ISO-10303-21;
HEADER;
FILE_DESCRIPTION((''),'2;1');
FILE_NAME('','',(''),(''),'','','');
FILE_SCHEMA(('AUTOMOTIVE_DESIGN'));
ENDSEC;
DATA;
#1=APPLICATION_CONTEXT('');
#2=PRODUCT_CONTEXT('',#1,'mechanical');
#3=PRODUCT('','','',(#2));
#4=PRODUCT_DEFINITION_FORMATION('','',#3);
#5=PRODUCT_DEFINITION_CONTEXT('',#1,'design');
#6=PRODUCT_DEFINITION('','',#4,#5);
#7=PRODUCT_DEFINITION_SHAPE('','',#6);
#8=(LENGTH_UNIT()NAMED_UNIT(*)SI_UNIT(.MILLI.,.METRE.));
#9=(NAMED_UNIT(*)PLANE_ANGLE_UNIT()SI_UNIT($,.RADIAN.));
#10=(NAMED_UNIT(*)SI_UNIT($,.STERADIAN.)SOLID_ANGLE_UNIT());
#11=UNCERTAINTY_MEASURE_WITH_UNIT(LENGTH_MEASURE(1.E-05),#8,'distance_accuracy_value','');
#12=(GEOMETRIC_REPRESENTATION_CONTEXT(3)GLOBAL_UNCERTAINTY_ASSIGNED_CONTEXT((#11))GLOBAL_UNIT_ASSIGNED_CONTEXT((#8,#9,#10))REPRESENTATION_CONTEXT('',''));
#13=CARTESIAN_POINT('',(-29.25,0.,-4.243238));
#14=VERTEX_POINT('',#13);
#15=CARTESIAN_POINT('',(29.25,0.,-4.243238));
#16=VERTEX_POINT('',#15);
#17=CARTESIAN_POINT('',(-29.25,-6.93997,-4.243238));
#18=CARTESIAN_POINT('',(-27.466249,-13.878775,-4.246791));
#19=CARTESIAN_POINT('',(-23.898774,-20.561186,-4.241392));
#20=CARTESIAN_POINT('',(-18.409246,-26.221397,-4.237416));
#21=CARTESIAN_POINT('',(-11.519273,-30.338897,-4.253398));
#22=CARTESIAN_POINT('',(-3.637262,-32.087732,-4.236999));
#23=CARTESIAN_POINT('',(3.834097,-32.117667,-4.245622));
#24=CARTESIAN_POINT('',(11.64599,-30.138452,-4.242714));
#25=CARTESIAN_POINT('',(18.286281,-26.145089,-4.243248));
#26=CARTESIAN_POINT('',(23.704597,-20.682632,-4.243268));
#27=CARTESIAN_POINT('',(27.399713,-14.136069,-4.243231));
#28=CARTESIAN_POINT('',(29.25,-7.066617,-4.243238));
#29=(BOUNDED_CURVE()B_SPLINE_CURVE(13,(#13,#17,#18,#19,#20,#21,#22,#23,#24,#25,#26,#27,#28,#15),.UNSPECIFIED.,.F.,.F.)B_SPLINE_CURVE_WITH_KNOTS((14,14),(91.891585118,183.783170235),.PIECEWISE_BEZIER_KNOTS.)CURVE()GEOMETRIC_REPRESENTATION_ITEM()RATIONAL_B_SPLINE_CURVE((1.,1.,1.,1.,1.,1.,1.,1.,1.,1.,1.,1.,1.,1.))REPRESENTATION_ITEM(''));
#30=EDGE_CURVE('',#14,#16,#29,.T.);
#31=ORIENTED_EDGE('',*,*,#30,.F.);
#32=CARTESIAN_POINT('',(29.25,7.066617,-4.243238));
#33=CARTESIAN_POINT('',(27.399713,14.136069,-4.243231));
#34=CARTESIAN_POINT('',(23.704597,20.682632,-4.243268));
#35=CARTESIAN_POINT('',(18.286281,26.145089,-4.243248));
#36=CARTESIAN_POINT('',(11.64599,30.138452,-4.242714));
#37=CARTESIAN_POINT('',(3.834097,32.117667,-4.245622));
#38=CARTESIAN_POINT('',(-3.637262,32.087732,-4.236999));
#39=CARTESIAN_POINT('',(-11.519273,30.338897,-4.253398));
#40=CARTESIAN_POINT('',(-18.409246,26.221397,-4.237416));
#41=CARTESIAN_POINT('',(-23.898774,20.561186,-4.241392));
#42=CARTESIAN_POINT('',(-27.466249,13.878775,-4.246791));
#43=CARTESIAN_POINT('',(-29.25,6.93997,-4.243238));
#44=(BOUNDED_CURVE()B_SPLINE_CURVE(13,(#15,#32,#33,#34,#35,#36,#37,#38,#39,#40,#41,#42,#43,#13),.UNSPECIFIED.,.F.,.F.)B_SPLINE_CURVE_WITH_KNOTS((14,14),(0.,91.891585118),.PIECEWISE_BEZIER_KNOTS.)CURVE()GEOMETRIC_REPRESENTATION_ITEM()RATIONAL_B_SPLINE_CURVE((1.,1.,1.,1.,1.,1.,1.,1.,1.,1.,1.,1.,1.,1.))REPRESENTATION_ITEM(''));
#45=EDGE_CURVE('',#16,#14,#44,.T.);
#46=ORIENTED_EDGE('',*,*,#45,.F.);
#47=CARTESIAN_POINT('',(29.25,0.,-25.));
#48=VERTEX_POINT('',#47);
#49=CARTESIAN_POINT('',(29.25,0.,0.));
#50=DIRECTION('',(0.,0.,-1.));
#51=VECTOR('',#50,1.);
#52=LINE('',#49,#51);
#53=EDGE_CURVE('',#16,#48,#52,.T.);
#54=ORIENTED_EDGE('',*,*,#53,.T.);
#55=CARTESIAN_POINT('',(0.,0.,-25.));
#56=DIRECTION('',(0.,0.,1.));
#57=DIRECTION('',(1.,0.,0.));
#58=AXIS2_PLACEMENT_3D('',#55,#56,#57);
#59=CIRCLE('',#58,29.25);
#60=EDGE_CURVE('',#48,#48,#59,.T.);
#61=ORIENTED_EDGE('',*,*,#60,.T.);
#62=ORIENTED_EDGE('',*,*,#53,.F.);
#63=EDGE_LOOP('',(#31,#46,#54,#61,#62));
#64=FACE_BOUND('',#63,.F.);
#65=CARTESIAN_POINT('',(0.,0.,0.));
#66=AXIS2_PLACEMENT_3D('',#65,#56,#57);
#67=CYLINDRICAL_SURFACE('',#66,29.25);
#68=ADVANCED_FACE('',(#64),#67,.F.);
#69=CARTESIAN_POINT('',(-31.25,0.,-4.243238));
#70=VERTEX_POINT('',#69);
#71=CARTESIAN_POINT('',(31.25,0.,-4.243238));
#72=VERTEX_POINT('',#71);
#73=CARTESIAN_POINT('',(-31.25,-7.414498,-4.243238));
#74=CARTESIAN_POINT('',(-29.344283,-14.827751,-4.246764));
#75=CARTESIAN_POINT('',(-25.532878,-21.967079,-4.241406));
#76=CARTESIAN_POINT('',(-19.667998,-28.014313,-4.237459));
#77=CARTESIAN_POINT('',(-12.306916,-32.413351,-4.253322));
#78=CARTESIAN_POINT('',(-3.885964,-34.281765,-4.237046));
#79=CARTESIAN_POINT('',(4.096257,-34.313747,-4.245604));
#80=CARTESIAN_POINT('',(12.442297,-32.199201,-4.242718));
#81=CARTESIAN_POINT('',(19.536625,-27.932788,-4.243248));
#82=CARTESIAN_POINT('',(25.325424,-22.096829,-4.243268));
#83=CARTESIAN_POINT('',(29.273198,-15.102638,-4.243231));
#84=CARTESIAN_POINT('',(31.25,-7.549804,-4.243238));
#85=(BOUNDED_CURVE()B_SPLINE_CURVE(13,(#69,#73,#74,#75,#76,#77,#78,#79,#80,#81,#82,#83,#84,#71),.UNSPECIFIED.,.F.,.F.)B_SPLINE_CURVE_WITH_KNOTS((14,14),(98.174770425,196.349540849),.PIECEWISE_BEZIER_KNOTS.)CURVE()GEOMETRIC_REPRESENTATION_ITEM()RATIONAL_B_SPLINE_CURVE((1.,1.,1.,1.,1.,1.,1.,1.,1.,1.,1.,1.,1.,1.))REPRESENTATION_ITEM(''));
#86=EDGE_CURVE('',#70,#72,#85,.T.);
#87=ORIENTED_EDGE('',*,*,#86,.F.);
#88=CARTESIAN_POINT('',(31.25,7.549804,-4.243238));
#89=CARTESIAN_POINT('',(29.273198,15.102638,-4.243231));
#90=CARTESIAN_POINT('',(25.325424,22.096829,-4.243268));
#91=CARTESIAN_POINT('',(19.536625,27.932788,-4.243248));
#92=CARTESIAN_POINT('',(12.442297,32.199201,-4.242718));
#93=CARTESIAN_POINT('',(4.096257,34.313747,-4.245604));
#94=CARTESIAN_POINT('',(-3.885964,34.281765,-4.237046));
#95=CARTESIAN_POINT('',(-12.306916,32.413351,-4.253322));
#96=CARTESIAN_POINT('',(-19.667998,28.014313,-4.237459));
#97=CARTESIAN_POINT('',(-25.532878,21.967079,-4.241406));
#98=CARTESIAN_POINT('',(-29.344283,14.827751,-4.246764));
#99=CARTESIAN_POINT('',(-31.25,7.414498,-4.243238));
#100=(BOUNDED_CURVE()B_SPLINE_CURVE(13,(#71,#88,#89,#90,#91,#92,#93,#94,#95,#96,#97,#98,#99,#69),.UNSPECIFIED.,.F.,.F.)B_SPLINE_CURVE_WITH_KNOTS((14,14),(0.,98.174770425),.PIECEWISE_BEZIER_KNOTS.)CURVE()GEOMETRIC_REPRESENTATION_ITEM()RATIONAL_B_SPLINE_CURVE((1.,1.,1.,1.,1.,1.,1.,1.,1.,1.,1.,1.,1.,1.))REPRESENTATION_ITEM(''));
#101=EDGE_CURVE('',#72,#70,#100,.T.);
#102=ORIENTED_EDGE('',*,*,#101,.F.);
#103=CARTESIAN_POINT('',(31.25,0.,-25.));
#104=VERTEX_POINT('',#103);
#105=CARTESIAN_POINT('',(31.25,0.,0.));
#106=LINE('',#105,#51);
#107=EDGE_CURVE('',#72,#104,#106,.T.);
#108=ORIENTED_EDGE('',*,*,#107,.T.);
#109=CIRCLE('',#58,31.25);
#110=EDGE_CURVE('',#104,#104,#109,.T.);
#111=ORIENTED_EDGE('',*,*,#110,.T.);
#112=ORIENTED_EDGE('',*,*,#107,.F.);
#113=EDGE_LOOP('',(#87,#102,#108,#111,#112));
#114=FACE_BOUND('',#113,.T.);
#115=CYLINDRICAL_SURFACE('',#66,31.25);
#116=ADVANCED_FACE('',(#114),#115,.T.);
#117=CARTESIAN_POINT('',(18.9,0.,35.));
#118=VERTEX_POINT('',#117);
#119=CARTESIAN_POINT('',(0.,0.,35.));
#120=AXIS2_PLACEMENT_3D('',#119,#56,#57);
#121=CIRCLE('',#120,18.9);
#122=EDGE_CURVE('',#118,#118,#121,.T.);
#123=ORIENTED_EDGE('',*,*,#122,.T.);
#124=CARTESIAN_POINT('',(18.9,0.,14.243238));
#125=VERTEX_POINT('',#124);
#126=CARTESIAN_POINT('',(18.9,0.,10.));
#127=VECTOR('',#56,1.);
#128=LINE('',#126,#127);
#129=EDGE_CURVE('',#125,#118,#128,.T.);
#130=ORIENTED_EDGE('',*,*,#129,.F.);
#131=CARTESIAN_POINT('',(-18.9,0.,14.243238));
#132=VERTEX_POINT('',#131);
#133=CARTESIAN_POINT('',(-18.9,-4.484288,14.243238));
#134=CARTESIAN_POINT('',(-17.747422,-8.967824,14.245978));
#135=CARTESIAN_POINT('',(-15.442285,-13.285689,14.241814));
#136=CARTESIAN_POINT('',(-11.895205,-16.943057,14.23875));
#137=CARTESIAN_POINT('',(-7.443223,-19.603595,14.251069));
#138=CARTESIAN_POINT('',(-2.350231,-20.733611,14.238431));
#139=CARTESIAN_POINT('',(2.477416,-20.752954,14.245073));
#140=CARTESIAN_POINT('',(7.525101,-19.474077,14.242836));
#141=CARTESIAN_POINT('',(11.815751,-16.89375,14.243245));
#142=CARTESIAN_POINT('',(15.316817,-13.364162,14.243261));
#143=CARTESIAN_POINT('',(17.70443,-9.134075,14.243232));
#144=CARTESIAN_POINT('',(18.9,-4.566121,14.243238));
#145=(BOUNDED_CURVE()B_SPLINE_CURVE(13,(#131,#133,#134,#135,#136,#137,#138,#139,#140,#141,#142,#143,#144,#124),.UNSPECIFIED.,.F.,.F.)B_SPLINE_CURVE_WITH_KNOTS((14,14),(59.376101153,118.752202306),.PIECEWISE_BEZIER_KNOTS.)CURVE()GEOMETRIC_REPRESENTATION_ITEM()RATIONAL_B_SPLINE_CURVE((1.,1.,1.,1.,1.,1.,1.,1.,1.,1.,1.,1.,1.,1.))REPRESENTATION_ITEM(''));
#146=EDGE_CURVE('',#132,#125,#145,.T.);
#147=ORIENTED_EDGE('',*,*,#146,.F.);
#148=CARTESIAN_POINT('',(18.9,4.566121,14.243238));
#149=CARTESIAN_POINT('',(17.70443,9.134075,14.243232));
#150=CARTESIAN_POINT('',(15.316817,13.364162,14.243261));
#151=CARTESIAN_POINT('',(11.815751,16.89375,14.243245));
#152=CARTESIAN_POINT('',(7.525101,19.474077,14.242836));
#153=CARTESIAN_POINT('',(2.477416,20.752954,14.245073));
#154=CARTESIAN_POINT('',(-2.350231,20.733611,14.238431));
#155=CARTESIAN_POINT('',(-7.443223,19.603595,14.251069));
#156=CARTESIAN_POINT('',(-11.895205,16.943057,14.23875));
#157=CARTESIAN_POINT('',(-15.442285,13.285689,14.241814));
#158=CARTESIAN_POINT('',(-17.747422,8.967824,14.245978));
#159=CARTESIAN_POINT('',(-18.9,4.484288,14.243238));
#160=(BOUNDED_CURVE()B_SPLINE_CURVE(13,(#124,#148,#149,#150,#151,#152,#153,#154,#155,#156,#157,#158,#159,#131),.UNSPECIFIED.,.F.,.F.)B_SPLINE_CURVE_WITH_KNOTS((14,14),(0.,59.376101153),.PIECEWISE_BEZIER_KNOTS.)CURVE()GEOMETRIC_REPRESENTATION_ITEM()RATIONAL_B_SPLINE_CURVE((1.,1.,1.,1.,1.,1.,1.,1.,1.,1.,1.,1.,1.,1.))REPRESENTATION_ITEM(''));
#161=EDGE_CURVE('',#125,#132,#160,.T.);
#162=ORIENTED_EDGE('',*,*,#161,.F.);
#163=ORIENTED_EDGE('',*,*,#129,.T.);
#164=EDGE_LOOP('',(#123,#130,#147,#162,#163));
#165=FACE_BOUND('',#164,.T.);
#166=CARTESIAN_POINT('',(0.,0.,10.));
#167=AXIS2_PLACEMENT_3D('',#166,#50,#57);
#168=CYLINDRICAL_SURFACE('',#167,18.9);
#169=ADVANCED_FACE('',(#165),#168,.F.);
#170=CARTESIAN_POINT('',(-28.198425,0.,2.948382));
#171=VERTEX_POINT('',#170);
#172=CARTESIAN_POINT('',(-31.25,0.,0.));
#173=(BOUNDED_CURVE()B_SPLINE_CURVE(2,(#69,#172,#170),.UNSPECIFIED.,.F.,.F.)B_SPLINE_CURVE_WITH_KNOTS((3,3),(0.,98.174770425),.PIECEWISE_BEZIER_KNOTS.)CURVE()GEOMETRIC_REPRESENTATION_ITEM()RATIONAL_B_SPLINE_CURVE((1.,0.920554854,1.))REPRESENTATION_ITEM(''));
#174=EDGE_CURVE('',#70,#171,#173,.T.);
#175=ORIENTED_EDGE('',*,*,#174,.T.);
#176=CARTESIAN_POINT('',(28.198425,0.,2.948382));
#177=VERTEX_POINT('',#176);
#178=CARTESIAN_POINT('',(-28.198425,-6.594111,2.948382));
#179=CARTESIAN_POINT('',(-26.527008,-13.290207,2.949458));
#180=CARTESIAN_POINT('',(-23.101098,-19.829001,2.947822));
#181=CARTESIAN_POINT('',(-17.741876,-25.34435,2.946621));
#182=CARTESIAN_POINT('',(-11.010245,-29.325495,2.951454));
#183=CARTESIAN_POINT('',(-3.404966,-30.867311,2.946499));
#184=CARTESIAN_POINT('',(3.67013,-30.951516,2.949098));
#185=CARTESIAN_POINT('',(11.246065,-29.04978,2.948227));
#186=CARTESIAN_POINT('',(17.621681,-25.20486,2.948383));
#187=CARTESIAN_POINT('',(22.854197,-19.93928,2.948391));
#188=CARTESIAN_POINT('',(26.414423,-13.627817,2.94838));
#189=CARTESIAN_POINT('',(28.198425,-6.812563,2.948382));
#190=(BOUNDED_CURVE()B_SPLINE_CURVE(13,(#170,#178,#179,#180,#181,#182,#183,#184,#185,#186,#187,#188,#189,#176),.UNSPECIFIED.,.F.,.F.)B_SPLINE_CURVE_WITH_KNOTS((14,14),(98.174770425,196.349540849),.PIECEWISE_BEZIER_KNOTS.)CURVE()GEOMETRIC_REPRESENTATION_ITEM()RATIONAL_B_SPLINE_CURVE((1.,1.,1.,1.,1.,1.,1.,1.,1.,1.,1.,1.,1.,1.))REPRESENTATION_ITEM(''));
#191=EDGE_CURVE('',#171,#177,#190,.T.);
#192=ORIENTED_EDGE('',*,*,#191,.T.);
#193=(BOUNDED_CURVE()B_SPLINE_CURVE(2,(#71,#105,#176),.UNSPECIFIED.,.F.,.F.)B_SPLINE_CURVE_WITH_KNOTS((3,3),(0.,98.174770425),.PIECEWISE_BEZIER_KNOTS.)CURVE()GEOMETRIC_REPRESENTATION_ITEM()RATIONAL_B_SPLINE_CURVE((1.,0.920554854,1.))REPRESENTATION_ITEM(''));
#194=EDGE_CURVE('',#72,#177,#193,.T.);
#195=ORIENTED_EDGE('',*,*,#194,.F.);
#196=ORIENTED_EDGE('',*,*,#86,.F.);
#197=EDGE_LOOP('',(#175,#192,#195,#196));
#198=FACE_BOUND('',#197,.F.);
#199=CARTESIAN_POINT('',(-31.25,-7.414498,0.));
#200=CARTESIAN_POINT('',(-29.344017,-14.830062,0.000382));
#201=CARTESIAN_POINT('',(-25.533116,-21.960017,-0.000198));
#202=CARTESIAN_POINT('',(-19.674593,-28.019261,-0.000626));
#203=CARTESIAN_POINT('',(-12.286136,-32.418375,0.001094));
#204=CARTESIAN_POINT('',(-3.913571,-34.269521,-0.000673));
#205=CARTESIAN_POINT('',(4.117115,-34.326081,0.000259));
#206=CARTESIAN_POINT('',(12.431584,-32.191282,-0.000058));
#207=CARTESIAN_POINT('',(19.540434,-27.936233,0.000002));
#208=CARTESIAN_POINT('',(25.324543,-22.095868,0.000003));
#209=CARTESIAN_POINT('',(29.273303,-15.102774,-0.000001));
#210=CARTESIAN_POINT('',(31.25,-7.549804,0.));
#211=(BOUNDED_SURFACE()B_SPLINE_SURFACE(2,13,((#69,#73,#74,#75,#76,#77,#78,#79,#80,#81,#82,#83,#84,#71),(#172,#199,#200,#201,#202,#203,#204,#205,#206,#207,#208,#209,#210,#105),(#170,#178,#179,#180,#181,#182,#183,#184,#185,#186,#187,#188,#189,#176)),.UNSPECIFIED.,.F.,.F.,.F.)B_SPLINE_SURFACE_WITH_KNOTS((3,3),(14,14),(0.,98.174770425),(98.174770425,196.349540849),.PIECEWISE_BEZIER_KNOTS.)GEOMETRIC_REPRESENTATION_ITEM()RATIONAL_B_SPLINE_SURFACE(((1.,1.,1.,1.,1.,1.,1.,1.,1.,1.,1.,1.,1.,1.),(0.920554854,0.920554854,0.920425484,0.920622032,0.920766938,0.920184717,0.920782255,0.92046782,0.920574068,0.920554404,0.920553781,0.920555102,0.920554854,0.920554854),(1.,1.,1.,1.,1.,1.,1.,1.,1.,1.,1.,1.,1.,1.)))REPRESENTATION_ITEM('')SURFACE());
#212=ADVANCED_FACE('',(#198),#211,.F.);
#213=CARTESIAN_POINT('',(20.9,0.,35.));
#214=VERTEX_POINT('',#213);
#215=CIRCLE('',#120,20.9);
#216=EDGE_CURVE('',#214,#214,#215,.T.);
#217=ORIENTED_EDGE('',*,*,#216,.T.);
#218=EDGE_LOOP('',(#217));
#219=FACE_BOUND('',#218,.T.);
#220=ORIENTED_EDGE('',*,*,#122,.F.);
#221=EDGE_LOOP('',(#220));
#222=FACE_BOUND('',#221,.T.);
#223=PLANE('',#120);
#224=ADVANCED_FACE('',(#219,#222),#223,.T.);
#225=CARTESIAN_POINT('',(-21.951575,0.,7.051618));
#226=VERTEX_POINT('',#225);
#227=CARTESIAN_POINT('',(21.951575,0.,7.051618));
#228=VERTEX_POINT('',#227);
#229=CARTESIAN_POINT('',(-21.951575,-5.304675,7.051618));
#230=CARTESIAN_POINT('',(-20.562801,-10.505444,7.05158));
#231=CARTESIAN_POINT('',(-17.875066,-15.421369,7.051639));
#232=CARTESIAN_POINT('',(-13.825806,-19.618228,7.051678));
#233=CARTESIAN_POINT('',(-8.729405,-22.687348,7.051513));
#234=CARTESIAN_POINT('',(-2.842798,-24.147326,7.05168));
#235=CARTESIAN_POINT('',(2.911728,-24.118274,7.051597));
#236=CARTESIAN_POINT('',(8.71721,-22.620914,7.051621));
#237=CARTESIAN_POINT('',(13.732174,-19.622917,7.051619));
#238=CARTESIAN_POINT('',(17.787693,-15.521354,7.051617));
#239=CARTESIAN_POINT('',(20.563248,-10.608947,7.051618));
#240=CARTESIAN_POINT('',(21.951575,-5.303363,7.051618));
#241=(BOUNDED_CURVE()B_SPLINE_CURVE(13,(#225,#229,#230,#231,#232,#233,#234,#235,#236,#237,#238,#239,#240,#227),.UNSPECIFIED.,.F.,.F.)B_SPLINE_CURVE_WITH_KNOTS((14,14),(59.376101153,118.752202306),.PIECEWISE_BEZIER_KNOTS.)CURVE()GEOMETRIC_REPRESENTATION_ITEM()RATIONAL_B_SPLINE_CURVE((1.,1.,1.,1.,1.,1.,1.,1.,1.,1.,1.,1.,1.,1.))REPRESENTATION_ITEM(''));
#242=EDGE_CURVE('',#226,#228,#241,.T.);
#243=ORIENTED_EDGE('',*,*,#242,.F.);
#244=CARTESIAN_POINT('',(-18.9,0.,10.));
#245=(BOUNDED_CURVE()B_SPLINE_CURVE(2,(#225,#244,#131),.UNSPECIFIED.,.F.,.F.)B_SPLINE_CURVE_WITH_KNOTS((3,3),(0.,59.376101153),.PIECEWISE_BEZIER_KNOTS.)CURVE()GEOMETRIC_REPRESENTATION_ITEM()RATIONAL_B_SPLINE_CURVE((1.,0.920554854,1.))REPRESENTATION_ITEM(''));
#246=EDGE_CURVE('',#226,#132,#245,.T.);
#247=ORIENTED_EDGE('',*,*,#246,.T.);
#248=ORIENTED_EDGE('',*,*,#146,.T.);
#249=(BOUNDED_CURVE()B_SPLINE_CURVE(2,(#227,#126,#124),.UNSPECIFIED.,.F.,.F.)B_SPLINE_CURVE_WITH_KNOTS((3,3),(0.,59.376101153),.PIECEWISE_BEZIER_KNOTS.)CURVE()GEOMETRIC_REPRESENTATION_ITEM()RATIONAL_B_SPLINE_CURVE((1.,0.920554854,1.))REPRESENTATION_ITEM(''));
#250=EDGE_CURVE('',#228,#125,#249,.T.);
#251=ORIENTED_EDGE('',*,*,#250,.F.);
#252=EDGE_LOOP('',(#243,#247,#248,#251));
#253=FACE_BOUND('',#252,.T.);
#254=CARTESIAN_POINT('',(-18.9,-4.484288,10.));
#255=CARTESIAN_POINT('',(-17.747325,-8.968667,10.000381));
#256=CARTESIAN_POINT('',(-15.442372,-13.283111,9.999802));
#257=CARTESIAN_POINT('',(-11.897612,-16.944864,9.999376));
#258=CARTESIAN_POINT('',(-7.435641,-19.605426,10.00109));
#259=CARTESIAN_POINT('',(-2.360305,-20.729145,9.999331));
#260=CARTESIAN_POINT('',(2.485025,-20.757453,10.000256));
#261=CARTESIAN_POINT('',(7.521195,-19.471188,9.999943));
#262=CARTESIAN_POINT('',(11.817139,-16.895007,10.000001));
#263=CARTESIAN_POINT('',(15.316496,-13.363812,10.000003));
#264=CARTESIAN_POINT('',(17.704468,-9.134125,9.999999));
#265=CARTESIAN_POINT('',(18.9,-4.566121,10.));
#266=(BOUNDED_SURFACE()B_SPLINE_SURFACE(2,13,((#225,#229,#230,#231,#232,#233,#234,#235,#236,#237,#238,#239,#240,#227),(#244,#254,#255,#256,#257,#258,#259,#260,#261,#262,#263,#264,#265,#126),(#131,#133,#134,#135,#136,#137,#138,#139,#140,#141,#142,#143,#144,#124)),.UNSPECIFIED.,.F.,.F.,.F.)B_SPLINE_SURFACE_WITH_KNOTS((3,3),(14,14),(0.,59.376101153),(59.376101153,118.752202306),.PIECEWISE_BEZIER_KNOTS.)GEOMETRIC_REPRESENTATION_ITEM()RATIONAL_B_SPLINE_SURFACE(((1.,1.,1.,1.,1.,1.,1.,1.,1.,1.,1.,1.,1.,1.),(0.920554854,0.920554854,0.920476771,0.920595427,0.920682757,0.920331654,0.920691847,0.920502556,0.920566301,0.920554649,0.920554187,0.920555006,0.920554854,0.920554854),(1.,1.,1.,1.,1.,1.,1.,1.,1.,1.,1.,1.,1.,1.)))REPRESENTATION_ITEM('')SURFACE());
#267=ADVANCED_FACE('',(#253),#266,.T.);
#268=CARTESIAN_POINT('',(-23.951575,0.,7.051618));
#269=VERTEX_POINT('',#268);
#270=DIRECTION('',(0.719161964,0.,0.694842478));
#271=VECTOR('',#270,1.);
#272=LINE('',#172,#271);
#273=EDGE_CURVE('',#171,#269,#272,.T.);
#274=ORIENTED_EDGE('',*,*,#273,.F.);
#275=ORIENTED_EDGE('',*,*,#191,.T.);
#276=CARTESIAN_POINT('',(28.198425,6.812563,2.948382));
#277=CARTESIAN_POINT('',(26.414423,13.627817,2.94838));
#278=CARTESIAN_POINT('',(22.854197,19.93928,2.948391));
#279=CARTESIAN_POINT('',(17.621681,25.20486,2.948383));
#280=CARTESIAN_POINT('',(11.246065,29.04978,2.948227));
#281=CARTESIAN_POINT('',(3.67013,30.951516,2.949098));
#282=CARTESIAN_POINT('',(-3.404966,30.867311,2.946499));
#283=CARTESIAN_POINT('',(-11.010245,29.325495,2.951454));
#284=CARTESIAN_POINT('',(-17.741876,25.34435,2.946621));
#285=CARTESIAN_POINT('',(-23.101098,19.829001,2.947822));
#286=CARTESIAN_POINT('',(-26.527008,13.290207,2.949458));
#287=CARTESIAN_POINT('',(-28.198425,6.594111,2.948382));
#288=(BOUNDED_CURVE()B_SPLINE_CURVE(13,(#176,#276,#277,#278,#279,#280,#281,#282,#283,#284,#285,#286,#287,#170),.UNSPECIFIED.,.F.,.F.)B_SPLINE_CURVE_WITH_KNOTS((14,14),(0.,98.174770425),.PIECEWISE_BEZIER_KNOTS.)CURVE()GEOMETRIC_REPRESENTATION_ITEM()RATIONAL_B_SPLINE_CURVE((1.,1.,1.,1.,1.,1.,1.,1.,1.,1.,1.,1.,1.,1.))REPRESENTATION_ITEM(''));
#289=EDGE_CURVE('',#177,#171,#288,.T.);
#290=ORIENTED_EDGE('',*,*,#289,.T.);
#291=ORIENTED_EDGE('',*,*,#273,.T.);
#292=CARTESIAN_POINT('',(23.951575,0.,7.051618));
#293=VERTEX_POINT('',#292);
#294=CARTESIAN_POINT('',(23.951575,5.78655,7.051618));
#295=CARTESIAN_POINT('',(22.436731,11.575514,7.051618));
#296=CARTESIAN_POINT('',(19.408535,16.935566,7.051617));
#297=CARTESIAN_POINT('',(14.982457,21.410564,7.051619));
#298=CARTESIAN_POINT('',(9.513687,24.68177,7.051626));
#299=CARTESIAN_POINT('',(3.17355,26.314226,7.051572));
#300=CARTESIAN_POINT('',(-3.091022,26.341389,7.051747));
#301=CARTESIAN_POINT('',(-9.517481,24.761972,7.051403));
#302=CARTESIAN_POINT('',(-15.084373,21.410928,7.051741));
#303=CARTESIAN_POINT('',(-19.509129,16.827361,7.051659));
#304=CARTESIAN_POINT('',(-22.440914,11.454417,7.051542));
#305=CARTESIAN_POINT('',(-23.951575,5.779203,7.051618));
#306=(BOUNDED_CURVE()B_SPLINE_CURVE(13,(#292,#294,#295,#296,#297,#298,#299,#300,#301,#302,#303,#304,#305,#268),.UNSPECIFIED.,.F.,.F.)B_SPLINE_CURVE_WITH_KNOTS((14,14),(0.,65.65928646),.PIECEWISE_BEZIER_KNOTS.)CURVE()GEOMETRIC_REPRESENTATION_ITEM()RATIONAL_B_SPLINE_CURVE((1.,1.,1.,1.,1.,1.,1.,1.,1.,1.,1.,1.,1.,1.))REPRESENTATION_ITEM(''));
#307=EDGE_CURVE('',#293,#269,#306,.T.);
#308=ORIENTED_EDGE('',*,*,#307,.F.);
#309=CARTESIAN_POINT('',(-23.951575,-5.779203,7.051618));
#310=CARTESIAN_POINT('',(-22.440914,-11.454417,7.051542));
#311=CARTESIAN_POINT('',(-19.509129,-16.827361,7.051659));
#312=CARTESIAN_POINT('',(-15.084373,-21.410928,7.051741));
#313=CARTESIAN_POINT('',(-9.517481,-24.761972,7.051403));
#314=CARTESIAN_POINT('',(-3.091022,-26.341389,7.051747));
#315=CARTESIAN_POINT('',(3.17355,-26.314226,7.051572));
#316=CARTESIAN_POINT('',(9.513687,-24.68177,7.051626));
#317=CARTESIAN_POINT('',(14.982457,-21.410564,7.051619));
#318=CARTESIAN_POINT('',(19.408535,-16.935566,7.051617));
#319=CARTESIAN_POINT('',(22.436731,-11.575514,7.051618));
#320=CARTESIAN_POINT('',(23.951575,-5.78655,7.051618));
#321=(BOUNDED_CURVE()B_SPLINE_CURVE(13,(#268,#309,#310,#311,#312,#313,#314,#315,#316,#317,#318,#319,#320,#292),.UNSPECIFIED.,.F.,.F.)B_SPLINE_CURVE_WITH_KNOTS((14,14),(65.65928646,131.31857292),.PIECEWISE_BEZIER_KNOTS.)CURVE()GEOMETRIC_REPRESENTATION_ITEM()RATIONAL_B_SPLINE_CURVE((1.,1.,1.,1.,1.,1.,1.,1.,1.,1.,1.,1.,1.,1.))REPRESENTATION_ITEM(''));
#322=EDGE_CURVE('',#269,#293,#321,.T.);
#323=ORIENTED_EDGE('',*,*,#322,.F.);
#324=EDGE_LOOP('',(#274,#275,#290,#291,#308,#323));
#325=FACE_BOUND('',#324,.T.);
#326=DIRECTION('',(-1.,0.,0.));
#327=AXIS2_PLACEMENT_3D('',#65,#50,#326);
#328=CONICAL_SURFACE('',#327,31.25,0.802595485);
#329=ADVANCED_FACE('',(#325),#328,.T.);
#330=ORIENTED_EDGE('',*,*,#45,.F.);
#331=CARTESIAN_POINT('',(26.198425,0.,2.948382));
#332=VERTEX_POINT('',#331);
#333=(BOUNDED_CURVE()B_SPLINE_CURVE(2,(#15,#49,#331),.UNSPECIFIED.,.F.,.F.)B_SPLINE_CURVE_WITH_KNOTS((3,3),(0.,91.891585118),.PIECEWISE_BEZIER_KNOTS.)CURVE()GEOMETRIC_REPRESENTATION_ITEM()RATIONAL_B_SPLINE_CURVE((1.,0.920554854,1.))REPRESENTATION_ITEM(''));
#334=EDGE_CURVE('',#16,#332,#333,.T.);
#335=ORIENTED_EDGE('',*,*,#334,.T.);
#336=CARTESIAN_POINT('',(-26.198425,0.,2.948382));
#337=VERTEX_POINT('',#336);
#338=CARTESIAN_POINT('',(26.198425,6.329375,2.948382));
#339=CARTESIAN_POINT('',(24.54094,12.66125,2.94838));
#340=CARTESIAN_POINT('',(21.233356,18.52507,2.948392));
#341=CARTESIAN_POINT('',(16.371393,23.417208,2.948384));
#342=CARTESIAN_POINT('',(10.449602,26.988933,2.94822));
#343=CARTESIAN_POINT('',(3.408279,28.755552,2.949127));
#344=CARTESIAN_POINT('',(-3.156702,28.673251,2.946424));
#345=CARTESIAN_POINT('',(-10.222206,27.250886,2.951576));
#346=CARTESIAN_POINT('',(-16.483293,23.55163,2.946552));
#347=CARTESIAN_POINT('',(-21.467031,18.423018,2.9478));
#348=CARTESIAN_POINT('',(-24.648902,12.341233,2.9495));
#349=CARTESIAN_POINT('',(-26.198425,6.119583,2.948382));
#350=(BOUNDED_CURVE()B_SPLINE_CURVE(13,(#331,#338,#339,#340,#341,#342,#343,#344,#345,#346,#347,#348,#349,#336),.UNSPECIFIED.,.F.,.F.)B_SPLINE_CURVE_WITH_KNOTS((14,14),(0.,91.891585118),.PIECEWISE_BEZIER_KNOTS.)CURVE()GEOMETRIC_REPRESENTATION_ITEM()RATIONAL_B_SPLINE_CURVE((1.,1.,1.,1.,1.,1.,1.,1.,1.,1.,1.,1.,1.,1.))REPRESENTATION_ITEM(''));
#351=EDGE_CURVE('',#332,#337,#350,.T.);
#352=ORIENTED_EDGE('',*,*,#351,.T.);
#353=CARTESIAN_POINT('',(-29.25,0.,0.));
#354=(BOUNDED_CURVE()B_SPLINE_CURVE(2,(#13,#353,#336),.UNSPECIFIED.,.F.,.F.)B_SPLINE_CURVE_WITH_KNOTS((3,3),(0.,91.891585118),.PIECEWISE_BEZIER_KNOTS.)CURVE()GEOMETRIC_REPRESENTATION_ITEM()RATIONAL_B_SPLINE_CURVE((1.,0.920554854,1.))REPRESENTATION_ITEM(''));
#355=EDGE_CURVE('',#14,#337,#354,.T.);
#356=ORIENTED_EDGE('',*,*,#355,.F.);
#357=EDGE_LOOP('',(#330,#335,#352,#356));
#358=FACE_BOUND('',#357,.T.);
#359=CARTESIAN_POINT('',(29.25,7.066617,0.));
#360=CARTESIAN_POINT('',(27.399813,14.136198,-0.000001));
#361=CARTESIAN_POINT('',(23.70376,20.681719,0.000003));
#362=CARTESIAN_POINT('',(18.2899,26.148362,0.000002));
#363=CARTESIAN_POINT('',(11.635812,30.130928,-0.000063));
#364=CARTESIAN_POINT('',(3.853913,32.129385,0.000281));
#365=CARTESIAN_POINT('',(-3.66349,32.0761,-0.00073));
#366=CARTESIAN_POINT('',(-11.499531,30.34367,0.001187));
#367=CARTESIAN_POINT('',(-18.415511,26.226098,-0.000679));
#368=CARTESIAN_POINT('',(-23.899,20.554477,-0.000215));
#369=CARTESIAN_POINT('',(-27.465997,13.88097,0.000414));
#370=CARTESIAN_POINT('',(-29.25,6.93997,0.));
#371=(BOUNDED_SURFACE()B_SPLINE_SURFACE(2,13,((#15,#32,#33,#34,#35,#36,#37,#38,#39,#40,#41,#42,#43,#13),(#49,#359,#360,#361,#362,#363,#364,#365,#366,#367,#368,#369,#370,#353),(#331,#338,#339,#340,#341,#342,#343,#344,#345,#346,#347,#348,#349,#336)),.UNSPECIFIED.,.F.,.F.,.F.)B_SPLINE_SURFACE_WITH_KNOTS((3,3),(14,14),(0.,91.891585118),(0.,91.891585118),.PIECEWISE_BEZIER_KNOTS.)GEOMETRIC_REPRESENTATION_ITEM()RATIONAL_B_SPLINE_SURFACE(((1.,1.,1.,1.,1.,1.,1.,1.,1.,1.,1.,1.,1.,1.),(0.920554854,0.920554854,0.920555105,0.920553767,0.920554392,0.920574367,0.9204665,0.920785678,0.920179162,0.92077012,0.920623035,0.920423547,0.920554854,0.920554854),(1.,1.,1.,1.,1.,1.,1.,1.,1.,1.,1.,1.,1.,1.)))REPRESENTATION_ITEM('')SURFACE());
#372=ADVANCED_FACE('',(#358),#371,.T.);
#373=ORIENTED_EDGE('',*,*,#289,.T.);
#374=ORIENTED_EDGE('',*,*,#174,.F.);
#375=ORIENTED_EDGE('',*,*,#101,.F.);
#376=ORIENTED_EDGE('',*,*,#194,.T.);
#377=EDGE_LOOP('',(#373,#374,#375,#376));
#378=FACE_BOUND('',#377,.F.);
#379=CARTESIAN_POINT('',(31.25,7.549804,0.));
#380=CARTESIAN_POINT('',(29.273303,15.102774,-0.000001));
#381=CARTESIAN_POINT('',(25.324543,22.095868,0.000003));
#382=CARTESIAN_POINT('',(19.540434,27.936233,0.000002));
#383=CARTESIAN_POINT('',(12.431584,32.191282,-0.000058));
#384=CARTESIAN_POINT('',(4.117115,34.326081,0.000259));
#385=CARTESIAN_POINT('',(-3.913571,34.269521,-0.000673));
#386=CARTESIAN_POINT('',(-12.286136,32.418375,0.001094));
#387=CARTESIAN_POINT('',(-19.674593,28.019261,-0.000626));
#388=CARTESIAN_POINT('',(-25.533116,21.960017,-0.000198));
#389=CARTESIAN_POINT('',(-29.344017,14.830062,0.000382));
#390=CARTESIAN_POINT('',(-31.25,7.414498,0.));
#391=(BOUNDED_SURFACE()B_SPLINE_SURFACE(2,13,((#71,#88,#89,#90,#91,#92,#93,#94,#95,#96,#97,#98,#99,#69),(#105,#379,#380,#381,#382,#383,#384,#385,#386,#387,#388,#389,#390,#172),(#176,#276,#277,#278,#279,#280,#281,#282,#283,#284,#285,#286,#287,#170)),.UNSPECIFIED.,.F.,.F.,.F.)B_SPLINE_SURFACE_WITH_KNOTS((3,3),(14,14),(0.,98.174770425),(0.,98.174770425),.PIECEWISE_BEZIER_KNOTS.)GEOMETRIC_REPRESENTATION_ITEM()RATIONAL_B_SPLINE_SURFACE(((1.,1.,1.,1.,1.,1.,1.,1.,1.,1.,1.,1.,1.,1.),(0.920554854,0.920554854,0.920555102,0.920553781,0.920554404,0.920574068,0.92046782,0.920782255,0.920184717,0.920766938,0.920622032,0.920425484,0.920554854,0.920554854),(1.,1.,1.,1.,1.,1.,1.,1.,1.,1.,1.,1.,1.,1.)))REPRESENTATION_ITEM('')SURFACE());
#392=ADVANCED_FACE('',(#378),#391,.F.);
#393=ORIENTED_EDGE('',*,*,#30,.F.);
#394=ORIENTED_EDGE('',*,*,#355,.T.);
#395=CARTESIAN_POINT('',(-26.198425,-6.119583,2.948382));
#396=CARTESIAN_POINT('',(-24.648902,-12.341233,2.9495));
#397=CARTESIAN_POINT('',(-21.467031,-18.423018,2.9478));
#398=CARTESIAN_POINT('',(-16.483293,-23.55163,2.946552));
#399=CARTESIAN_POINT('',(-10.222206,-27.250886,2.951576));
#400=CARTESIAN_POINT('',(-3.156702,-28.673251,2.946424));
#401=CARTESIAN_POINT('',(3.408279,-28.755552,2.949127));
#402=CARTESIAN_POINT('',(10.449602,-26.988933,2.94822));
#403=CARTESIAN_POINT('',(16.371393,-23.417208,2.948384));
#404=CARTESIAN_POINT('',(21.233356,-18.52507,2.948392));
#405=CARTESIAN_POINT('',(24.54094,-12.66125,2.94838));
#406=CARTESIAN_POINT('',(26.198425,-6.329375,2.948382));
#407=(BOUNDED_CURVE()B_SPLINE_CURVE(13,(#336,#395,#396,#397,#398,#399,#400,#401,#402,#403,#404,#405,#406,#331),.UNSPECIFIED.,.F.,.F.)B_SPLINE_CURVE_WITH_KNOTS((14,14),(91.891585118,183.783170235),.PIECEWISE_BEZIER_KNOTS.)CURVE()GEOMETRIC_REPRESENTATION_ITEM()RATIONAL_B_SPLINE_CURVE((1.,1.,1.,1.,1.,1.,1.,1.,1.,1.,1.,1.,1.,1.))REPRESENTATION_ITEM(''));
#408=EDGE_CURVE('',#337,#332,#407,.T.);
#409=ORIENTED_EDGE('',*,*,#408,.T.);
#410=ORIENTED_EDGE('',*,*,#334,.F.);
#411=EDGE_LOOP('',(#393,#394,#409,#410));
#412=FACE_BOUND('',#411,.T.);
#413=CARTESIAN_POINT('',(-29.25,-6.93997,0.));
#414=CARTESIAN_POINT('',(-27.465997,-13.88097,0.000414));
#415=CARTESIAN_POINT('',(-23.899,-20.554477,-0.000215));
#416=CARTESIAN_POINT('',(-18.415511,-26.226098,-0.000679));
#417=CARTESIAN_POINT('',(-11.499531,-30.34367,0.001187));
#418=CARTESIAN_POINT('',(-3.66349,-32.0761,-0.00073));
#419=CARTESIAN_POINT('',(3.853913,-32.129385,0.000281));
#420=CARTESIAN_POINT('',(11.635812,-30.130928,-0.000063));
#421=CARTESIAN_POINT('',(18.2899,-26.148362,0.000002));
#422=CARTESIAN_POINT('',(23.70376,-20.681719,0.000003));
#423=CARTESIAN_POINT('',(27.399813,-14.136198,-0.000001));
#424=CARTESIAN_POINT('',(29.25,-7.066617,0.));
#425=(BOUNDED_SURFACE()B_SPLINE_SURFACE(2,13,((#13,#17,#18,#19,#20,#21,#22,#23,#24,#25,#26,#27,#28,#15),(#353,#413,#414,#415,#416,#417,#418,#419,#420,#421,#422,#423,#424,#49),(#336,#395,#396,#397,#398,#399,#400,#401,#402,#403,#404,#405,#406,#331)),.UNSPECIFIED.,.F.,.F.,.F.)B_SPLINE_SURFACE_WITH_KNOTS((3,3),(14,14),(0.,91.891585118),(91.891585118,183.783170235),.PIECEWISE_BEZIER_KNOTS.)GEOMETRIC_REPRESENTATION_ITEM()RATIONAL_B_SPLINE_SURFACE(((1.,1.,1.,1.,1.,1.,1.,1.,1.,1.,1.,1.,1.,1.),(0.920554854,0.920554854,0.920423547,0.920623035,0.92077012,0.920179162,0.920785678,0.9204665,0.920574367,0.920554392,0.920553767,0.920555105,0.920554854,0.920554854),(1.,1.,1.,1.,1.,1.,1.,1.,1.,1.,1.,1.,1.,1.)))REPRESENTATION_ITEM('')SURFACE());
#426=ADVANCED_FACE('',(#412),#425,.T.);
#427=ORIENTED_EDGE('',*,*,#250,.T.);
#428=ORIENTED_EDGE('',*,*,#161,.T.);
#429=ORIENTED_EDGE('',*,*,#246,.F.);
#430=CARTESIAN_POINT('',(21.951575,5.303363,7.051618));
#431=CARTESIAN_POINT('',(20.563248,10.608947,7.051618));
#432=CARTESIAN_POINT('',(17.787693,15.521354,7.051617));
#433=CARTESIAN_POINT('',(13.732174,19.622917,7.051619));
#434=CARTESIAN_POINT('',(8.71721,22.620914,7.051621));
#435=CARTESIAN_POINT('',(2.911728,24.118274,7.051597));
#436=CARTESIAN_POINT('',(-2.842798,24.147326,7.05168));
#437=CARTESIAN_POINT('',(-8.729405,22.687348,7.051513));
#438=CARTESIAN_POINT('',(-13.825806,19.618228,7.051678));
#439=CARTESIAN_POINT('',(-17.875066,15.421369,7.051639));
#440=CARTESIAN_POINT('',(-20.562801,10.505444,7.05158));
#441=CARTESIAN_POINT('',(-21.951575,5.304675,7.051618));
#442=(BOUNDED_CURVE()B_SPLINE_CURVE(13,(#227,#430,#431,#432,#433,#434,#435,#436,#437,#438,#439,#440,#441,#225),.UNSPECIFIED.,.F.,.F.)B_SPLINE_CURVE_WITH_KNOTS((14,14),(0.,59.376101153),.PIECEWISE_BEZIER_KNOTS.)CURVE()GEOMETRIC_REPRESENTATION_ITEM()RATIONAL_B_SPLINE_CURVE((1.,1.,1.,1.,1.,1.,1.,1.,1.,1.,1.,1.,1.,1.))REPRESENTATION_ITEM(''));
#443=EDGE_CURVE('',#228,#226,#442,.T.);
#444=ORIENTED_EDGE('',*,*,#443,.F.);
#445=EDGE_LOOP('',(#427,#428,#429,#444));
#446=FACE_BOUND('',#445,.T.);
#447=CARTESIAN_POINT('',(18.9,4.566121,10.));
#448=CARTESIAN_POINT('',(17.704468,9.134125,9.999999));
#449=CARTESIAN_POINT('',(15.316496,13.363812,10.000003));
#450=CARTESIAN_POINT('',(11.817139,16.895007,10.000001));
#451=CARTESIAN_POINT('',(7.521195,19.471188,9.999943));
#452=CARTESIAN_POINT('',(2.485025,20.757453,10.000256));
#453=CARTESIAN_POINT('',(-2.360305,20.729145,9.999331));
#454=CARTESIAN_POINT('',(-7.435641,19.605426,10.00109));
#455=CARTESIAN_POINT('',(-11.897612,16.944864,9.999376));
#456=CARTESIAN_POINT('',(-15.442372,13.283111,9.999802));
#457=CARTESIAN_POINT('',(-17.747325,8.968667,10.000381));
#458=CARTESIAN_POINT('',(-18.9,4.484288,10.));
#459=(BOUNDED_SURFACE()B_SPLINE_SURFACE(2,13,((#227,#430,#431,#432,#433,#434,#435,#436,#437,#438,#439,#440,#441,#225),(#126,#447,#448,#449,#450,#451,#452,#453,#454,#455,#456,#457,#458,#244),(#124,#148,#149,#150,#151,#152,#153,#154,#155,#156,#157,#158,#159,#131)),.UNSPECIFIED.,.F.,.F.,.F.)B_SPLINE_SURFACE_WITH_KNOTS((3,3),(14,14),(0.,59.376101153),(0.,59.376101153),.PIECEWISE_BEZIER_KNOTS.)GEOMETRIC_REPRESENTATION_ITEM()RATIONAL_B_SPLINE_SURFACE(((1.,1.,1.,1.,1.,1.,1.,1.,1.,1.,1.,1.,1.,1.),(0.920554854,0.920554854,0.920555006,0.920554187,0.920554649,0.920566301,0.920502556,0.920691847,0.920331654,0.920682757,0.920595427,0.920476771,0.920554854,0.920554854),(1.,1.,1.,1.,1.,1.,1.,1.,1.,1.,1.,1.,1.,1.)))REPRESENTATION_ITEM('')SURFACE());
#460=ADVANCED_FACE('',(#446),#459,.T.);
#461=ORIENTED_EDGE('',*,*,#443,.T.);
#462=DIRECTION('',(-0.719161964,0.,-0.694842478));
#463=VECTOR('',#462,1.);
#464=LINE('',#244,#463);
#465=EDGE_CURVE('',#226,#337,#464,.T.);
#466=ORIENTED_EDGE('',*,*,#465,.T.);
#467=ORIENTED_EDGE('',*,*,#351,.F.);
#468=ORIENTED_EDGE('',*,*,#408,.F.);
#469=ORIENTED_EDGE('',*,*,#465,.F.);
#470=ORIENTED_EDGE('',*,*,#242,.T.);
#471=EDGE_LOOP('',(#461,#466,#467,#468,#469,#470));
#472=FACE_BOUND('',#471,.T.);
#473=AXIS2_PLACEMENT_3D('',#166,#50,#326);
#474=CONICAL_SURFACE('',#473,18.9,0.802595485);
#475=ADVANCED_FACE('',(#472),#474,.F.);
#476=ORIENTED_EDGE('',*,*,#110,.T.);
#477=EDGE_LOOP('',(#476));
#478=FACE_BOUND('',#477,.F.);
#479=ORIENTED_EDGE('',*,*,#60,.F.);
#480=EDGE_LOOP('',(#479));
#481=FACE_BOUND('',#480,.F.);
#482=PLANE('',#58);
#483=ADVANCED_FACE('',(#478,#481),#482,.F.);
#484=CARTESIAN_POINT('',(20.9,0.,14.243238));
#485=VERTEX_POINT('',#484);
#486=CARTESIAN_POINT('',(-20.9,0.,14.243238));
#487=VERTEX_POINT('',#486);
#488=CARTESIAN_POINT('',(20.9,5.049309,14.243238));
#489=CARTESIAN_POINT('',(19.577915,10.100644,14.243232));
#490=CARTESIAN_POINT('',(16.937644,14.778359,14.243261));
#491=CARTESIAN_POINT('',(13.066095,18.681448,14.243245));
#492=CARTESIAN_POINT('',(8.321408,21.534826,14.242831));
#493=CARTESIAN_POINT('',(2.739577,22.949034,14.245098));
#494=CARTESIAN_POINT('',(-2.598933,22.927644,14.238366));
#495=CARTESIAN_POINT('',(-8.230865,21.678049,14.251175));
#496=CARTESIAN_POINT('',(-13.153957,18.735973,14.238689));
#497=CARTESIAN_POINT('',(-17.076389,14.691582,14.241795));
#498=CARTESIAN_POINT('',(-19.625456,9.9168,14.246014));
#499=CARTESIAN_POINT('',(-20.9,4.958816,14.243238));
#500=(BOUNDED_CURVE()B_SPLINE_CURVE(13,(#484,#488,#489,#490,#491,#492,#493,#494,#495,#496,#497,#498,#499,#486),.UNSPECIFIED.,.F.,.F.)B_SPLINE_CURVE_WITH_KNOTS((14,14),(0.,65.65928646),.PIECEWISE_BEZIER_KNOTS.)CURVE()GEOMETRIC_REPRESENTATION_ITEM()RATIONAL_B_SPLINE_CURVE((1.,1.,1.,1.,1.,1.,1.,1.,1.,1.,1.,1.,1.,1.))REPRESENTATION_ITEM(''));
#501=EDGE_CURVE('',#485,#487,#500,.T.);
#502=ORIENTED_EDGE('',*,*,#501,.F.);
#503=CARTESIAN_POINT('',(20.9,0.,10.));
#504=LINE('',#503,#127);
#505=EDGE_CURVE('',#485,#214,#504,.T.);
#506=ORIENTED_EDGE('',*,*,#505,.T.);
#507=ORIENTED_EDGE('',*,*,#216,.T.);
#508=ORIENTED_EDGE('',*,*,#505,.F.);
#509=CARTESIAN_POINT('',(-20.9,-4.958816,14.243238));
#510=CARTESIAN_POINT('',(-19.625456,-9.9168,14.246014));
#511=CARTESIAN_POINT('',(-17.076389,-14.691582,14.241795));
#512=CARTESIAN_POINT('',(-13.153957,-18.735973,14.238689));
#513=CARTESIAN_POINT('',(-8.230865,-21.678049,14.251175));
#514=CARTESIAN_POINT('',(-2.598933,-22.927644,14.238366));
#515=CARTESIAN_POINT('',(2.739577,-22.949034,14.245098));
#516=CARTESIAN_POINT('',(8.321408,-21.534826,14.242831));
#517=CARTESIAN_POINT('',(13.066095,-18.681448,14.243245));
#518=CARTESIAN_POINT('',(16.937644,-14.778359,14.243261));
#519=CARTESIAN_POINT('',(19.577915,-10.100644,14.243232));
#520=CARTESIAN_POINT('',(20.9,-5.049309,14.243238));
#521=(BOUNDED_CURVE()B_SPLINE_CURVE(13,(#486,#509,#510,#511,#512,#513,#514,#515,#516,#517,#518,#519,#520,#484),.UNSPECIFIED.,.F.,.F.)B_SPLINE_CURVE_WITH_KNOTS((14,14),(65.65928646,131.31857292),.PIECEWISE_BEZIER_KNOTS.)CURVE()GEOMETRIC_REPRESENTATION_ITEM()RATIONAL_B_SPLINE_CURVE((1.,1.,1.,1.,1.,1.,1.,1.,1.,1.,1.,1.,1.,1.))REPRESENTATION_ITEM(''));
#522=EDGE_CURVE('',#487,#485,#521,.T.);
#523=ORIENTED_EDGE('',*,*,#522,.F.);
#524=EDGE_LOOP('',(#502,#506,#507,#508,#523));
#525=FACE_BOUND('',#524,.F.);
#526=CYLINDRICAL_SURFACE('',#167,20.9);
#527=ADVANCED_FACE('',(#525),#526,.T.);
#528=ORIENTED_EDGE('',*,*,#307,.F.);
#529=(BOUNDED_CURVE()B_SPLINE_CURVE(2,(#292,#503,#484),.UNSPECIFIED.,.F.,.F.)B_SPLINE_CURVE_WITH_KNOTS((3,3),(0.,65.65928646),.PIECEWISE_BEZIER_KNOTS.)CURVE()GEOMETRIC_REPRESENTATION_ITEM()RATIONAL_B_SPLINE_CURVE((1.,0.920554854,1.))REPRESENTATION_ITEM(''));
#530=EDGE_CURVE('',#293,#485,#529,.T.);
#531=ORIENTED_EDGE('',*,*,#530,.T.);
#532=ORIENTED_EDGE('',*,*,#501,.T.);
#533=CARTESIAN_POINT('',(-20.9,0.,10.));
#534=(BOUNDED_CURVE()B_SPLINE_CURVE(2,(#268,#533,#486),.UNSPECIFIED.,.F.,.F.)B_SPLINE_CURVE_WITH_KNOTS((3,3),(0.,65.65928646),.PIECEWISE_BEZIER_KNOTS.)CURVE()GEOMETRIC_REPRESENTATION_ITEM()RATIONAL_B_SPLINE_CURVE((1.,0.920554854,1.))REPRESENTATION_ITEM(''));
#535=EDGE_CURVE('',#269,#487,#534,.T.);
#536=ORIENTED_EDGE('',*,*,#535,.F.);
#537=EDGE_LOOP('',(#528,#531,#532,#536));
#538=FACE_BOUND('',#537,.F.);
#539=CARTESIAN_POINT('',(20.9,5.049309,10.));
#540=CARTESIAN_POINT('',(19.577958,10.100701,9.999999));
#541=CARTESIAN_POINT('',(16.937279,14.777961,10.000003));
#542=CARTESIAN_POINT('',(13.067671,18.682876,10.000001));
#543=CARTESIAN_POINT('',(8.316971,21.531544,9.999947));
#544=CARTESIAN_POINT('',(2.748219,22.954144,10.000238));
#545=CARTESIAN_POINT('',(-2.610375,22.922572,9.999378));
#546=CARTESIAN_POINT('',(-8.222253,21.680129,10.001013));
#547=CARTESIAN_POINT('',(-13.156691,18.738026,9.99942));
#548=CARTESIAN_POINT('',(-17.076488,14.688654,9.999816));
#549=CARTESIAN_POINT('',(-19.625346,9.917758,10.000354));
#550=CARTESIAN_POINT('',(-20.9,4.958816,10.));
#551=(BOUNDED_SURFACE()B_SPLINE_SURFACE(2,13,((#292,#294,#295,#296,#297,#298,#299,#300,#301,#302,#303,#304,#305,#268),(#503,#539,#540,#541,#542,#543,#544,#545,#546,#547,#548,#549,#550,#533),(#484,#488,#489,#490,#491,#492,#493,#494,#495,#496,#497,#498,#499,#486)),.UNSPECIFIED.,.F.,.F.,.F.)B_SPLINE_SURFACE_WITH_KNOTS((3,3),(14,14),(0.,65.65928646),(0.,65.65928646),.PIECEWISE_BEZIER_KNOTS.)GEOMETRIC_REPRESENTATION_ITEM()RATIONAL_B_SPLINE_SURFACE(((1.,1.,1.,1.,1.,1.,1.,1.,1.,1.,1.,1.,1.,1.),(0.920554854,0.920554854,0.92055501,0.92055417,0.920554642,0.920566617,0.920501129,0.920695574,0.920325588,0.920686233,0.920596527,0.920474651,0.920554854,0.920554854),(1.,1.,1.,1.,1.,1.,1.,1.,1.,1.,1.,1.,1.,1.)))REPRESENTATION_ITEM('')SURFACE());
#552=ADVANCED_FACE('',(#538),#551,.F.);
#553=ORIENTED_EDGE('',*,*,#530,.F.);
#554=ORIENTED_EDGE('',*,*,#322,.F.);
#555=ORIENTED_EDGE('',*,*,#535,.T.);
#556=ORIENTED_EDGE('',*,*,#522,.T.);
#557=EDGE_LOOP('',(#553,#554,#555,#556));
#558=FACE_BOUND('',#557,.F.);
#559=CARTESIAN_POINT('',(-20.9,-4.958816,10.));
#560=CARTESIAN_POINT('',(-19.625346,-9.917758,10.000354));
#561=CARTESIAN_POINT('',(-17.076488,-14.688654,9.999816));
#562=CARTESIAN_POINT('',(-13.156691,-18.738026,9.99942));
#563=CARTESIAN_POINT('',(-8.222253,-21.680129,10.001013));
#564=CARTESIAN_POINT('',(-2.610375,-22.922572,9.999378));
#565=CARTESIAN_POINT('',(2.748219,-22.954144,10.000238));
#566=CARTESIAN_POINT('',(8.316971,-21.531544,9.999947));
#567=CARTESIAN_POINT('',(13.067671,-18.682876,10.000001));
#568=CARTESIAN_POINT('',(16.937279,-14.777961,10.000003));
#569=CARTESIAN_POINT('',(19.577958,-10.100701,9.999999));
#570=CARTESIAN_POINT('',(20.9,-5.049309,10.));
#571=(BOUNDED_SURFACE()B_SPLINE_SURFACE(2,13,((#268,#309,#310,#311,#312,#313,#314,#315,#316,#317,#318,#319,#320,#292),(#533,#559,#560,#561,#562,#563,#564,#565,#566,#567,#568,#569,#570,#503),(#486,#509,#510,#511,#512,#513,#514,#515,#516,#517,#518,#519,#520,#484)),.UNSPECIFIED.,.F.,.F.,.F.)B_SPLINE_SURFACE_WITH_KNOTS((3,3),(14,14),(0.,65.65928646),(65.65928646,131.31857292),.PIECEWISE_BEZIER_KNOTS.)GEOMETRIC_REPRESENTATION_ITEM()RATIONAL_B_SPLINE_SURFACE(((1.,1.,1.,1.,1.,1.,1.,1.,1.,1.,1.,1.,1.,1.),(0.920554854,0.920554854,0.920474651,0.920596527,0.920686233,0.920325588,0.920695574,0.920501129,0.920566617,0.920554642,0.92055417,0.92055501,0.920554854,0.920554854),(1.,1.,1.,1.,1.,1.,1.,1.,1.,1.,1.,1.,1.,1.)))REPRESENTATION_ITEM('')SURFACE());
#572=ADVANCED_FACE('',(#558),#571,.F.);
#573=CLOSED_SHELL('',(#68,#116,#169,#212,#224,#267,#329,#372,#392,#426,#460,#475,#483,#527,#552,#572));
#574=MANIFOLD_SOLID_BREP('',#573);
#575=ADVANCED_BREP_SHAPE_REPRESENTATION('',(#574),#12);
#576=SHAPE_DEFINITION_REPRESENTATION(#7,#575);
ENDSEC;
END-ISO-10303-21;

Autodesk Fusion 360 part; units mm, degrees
sketch "Sketch1" plane through (0, 0, 0) normal (0, 0, 1) x (1, 0, 0)
  circle A0 centre (0, 0) radius 29.25
  circle A1 centre (0, 0) radius 31.25
  dimension "d1" = 58.5
  dimension "d2" = 2
ref_plane "WorkPlane1" through (0, 0, 10) normal (0, 0, 1) x (1, 0, 0)
sketch "Sketch2" plane through (0, 0, 10) normal (0, 0, 1) x (1, 0, 0)
  circle A0 centre (0, 0) radius 18.9
  circle A1 centre (0, 0) radius 20.9
  dimension "d4" = 37.8
  dimension "d5" = 2
sketch "Sketch3" plane through (0, 0, 0) normal (0, 1, 0) x (1, 0, 0)
  line L0 (-29.25, 0) -> (29.25, 0)
  line L1 (-31.25, 0) -> (31.25, 0)
  line L2 (-18.9, -10) -> (18.9, -10)
  line L3 (-20.9, -10) -> (20.9, -10)
  line L4 (-31.25, 0) -> (-20.9, -10)
  line L5 (-18.9, -10) -> (-29.25, 0)
  line L6 (0, 0) -> (0, -30) construction
revolve "Revolve1" add sketch "Sketch3" angle 360 about axis through (0, 0, 0) along (0, 0, 1)
extrude "Extrude1" add sketch "Sketch2" along normal blind 25
extrude "Extrude2" add sketch "Sketch1" against normal blind 25
fillet "Fillet1" radius 10 1 edges at (-27.2706, 10.5773, 0)
fillet "Fillet2" radius 10 2 edges at (-17.621, 6.8345, 10) (-19.4856, 7.5578, 10)
fillet "Fillet3" radius 10 1 edges at (-29.1352, 11.3005, 0)
